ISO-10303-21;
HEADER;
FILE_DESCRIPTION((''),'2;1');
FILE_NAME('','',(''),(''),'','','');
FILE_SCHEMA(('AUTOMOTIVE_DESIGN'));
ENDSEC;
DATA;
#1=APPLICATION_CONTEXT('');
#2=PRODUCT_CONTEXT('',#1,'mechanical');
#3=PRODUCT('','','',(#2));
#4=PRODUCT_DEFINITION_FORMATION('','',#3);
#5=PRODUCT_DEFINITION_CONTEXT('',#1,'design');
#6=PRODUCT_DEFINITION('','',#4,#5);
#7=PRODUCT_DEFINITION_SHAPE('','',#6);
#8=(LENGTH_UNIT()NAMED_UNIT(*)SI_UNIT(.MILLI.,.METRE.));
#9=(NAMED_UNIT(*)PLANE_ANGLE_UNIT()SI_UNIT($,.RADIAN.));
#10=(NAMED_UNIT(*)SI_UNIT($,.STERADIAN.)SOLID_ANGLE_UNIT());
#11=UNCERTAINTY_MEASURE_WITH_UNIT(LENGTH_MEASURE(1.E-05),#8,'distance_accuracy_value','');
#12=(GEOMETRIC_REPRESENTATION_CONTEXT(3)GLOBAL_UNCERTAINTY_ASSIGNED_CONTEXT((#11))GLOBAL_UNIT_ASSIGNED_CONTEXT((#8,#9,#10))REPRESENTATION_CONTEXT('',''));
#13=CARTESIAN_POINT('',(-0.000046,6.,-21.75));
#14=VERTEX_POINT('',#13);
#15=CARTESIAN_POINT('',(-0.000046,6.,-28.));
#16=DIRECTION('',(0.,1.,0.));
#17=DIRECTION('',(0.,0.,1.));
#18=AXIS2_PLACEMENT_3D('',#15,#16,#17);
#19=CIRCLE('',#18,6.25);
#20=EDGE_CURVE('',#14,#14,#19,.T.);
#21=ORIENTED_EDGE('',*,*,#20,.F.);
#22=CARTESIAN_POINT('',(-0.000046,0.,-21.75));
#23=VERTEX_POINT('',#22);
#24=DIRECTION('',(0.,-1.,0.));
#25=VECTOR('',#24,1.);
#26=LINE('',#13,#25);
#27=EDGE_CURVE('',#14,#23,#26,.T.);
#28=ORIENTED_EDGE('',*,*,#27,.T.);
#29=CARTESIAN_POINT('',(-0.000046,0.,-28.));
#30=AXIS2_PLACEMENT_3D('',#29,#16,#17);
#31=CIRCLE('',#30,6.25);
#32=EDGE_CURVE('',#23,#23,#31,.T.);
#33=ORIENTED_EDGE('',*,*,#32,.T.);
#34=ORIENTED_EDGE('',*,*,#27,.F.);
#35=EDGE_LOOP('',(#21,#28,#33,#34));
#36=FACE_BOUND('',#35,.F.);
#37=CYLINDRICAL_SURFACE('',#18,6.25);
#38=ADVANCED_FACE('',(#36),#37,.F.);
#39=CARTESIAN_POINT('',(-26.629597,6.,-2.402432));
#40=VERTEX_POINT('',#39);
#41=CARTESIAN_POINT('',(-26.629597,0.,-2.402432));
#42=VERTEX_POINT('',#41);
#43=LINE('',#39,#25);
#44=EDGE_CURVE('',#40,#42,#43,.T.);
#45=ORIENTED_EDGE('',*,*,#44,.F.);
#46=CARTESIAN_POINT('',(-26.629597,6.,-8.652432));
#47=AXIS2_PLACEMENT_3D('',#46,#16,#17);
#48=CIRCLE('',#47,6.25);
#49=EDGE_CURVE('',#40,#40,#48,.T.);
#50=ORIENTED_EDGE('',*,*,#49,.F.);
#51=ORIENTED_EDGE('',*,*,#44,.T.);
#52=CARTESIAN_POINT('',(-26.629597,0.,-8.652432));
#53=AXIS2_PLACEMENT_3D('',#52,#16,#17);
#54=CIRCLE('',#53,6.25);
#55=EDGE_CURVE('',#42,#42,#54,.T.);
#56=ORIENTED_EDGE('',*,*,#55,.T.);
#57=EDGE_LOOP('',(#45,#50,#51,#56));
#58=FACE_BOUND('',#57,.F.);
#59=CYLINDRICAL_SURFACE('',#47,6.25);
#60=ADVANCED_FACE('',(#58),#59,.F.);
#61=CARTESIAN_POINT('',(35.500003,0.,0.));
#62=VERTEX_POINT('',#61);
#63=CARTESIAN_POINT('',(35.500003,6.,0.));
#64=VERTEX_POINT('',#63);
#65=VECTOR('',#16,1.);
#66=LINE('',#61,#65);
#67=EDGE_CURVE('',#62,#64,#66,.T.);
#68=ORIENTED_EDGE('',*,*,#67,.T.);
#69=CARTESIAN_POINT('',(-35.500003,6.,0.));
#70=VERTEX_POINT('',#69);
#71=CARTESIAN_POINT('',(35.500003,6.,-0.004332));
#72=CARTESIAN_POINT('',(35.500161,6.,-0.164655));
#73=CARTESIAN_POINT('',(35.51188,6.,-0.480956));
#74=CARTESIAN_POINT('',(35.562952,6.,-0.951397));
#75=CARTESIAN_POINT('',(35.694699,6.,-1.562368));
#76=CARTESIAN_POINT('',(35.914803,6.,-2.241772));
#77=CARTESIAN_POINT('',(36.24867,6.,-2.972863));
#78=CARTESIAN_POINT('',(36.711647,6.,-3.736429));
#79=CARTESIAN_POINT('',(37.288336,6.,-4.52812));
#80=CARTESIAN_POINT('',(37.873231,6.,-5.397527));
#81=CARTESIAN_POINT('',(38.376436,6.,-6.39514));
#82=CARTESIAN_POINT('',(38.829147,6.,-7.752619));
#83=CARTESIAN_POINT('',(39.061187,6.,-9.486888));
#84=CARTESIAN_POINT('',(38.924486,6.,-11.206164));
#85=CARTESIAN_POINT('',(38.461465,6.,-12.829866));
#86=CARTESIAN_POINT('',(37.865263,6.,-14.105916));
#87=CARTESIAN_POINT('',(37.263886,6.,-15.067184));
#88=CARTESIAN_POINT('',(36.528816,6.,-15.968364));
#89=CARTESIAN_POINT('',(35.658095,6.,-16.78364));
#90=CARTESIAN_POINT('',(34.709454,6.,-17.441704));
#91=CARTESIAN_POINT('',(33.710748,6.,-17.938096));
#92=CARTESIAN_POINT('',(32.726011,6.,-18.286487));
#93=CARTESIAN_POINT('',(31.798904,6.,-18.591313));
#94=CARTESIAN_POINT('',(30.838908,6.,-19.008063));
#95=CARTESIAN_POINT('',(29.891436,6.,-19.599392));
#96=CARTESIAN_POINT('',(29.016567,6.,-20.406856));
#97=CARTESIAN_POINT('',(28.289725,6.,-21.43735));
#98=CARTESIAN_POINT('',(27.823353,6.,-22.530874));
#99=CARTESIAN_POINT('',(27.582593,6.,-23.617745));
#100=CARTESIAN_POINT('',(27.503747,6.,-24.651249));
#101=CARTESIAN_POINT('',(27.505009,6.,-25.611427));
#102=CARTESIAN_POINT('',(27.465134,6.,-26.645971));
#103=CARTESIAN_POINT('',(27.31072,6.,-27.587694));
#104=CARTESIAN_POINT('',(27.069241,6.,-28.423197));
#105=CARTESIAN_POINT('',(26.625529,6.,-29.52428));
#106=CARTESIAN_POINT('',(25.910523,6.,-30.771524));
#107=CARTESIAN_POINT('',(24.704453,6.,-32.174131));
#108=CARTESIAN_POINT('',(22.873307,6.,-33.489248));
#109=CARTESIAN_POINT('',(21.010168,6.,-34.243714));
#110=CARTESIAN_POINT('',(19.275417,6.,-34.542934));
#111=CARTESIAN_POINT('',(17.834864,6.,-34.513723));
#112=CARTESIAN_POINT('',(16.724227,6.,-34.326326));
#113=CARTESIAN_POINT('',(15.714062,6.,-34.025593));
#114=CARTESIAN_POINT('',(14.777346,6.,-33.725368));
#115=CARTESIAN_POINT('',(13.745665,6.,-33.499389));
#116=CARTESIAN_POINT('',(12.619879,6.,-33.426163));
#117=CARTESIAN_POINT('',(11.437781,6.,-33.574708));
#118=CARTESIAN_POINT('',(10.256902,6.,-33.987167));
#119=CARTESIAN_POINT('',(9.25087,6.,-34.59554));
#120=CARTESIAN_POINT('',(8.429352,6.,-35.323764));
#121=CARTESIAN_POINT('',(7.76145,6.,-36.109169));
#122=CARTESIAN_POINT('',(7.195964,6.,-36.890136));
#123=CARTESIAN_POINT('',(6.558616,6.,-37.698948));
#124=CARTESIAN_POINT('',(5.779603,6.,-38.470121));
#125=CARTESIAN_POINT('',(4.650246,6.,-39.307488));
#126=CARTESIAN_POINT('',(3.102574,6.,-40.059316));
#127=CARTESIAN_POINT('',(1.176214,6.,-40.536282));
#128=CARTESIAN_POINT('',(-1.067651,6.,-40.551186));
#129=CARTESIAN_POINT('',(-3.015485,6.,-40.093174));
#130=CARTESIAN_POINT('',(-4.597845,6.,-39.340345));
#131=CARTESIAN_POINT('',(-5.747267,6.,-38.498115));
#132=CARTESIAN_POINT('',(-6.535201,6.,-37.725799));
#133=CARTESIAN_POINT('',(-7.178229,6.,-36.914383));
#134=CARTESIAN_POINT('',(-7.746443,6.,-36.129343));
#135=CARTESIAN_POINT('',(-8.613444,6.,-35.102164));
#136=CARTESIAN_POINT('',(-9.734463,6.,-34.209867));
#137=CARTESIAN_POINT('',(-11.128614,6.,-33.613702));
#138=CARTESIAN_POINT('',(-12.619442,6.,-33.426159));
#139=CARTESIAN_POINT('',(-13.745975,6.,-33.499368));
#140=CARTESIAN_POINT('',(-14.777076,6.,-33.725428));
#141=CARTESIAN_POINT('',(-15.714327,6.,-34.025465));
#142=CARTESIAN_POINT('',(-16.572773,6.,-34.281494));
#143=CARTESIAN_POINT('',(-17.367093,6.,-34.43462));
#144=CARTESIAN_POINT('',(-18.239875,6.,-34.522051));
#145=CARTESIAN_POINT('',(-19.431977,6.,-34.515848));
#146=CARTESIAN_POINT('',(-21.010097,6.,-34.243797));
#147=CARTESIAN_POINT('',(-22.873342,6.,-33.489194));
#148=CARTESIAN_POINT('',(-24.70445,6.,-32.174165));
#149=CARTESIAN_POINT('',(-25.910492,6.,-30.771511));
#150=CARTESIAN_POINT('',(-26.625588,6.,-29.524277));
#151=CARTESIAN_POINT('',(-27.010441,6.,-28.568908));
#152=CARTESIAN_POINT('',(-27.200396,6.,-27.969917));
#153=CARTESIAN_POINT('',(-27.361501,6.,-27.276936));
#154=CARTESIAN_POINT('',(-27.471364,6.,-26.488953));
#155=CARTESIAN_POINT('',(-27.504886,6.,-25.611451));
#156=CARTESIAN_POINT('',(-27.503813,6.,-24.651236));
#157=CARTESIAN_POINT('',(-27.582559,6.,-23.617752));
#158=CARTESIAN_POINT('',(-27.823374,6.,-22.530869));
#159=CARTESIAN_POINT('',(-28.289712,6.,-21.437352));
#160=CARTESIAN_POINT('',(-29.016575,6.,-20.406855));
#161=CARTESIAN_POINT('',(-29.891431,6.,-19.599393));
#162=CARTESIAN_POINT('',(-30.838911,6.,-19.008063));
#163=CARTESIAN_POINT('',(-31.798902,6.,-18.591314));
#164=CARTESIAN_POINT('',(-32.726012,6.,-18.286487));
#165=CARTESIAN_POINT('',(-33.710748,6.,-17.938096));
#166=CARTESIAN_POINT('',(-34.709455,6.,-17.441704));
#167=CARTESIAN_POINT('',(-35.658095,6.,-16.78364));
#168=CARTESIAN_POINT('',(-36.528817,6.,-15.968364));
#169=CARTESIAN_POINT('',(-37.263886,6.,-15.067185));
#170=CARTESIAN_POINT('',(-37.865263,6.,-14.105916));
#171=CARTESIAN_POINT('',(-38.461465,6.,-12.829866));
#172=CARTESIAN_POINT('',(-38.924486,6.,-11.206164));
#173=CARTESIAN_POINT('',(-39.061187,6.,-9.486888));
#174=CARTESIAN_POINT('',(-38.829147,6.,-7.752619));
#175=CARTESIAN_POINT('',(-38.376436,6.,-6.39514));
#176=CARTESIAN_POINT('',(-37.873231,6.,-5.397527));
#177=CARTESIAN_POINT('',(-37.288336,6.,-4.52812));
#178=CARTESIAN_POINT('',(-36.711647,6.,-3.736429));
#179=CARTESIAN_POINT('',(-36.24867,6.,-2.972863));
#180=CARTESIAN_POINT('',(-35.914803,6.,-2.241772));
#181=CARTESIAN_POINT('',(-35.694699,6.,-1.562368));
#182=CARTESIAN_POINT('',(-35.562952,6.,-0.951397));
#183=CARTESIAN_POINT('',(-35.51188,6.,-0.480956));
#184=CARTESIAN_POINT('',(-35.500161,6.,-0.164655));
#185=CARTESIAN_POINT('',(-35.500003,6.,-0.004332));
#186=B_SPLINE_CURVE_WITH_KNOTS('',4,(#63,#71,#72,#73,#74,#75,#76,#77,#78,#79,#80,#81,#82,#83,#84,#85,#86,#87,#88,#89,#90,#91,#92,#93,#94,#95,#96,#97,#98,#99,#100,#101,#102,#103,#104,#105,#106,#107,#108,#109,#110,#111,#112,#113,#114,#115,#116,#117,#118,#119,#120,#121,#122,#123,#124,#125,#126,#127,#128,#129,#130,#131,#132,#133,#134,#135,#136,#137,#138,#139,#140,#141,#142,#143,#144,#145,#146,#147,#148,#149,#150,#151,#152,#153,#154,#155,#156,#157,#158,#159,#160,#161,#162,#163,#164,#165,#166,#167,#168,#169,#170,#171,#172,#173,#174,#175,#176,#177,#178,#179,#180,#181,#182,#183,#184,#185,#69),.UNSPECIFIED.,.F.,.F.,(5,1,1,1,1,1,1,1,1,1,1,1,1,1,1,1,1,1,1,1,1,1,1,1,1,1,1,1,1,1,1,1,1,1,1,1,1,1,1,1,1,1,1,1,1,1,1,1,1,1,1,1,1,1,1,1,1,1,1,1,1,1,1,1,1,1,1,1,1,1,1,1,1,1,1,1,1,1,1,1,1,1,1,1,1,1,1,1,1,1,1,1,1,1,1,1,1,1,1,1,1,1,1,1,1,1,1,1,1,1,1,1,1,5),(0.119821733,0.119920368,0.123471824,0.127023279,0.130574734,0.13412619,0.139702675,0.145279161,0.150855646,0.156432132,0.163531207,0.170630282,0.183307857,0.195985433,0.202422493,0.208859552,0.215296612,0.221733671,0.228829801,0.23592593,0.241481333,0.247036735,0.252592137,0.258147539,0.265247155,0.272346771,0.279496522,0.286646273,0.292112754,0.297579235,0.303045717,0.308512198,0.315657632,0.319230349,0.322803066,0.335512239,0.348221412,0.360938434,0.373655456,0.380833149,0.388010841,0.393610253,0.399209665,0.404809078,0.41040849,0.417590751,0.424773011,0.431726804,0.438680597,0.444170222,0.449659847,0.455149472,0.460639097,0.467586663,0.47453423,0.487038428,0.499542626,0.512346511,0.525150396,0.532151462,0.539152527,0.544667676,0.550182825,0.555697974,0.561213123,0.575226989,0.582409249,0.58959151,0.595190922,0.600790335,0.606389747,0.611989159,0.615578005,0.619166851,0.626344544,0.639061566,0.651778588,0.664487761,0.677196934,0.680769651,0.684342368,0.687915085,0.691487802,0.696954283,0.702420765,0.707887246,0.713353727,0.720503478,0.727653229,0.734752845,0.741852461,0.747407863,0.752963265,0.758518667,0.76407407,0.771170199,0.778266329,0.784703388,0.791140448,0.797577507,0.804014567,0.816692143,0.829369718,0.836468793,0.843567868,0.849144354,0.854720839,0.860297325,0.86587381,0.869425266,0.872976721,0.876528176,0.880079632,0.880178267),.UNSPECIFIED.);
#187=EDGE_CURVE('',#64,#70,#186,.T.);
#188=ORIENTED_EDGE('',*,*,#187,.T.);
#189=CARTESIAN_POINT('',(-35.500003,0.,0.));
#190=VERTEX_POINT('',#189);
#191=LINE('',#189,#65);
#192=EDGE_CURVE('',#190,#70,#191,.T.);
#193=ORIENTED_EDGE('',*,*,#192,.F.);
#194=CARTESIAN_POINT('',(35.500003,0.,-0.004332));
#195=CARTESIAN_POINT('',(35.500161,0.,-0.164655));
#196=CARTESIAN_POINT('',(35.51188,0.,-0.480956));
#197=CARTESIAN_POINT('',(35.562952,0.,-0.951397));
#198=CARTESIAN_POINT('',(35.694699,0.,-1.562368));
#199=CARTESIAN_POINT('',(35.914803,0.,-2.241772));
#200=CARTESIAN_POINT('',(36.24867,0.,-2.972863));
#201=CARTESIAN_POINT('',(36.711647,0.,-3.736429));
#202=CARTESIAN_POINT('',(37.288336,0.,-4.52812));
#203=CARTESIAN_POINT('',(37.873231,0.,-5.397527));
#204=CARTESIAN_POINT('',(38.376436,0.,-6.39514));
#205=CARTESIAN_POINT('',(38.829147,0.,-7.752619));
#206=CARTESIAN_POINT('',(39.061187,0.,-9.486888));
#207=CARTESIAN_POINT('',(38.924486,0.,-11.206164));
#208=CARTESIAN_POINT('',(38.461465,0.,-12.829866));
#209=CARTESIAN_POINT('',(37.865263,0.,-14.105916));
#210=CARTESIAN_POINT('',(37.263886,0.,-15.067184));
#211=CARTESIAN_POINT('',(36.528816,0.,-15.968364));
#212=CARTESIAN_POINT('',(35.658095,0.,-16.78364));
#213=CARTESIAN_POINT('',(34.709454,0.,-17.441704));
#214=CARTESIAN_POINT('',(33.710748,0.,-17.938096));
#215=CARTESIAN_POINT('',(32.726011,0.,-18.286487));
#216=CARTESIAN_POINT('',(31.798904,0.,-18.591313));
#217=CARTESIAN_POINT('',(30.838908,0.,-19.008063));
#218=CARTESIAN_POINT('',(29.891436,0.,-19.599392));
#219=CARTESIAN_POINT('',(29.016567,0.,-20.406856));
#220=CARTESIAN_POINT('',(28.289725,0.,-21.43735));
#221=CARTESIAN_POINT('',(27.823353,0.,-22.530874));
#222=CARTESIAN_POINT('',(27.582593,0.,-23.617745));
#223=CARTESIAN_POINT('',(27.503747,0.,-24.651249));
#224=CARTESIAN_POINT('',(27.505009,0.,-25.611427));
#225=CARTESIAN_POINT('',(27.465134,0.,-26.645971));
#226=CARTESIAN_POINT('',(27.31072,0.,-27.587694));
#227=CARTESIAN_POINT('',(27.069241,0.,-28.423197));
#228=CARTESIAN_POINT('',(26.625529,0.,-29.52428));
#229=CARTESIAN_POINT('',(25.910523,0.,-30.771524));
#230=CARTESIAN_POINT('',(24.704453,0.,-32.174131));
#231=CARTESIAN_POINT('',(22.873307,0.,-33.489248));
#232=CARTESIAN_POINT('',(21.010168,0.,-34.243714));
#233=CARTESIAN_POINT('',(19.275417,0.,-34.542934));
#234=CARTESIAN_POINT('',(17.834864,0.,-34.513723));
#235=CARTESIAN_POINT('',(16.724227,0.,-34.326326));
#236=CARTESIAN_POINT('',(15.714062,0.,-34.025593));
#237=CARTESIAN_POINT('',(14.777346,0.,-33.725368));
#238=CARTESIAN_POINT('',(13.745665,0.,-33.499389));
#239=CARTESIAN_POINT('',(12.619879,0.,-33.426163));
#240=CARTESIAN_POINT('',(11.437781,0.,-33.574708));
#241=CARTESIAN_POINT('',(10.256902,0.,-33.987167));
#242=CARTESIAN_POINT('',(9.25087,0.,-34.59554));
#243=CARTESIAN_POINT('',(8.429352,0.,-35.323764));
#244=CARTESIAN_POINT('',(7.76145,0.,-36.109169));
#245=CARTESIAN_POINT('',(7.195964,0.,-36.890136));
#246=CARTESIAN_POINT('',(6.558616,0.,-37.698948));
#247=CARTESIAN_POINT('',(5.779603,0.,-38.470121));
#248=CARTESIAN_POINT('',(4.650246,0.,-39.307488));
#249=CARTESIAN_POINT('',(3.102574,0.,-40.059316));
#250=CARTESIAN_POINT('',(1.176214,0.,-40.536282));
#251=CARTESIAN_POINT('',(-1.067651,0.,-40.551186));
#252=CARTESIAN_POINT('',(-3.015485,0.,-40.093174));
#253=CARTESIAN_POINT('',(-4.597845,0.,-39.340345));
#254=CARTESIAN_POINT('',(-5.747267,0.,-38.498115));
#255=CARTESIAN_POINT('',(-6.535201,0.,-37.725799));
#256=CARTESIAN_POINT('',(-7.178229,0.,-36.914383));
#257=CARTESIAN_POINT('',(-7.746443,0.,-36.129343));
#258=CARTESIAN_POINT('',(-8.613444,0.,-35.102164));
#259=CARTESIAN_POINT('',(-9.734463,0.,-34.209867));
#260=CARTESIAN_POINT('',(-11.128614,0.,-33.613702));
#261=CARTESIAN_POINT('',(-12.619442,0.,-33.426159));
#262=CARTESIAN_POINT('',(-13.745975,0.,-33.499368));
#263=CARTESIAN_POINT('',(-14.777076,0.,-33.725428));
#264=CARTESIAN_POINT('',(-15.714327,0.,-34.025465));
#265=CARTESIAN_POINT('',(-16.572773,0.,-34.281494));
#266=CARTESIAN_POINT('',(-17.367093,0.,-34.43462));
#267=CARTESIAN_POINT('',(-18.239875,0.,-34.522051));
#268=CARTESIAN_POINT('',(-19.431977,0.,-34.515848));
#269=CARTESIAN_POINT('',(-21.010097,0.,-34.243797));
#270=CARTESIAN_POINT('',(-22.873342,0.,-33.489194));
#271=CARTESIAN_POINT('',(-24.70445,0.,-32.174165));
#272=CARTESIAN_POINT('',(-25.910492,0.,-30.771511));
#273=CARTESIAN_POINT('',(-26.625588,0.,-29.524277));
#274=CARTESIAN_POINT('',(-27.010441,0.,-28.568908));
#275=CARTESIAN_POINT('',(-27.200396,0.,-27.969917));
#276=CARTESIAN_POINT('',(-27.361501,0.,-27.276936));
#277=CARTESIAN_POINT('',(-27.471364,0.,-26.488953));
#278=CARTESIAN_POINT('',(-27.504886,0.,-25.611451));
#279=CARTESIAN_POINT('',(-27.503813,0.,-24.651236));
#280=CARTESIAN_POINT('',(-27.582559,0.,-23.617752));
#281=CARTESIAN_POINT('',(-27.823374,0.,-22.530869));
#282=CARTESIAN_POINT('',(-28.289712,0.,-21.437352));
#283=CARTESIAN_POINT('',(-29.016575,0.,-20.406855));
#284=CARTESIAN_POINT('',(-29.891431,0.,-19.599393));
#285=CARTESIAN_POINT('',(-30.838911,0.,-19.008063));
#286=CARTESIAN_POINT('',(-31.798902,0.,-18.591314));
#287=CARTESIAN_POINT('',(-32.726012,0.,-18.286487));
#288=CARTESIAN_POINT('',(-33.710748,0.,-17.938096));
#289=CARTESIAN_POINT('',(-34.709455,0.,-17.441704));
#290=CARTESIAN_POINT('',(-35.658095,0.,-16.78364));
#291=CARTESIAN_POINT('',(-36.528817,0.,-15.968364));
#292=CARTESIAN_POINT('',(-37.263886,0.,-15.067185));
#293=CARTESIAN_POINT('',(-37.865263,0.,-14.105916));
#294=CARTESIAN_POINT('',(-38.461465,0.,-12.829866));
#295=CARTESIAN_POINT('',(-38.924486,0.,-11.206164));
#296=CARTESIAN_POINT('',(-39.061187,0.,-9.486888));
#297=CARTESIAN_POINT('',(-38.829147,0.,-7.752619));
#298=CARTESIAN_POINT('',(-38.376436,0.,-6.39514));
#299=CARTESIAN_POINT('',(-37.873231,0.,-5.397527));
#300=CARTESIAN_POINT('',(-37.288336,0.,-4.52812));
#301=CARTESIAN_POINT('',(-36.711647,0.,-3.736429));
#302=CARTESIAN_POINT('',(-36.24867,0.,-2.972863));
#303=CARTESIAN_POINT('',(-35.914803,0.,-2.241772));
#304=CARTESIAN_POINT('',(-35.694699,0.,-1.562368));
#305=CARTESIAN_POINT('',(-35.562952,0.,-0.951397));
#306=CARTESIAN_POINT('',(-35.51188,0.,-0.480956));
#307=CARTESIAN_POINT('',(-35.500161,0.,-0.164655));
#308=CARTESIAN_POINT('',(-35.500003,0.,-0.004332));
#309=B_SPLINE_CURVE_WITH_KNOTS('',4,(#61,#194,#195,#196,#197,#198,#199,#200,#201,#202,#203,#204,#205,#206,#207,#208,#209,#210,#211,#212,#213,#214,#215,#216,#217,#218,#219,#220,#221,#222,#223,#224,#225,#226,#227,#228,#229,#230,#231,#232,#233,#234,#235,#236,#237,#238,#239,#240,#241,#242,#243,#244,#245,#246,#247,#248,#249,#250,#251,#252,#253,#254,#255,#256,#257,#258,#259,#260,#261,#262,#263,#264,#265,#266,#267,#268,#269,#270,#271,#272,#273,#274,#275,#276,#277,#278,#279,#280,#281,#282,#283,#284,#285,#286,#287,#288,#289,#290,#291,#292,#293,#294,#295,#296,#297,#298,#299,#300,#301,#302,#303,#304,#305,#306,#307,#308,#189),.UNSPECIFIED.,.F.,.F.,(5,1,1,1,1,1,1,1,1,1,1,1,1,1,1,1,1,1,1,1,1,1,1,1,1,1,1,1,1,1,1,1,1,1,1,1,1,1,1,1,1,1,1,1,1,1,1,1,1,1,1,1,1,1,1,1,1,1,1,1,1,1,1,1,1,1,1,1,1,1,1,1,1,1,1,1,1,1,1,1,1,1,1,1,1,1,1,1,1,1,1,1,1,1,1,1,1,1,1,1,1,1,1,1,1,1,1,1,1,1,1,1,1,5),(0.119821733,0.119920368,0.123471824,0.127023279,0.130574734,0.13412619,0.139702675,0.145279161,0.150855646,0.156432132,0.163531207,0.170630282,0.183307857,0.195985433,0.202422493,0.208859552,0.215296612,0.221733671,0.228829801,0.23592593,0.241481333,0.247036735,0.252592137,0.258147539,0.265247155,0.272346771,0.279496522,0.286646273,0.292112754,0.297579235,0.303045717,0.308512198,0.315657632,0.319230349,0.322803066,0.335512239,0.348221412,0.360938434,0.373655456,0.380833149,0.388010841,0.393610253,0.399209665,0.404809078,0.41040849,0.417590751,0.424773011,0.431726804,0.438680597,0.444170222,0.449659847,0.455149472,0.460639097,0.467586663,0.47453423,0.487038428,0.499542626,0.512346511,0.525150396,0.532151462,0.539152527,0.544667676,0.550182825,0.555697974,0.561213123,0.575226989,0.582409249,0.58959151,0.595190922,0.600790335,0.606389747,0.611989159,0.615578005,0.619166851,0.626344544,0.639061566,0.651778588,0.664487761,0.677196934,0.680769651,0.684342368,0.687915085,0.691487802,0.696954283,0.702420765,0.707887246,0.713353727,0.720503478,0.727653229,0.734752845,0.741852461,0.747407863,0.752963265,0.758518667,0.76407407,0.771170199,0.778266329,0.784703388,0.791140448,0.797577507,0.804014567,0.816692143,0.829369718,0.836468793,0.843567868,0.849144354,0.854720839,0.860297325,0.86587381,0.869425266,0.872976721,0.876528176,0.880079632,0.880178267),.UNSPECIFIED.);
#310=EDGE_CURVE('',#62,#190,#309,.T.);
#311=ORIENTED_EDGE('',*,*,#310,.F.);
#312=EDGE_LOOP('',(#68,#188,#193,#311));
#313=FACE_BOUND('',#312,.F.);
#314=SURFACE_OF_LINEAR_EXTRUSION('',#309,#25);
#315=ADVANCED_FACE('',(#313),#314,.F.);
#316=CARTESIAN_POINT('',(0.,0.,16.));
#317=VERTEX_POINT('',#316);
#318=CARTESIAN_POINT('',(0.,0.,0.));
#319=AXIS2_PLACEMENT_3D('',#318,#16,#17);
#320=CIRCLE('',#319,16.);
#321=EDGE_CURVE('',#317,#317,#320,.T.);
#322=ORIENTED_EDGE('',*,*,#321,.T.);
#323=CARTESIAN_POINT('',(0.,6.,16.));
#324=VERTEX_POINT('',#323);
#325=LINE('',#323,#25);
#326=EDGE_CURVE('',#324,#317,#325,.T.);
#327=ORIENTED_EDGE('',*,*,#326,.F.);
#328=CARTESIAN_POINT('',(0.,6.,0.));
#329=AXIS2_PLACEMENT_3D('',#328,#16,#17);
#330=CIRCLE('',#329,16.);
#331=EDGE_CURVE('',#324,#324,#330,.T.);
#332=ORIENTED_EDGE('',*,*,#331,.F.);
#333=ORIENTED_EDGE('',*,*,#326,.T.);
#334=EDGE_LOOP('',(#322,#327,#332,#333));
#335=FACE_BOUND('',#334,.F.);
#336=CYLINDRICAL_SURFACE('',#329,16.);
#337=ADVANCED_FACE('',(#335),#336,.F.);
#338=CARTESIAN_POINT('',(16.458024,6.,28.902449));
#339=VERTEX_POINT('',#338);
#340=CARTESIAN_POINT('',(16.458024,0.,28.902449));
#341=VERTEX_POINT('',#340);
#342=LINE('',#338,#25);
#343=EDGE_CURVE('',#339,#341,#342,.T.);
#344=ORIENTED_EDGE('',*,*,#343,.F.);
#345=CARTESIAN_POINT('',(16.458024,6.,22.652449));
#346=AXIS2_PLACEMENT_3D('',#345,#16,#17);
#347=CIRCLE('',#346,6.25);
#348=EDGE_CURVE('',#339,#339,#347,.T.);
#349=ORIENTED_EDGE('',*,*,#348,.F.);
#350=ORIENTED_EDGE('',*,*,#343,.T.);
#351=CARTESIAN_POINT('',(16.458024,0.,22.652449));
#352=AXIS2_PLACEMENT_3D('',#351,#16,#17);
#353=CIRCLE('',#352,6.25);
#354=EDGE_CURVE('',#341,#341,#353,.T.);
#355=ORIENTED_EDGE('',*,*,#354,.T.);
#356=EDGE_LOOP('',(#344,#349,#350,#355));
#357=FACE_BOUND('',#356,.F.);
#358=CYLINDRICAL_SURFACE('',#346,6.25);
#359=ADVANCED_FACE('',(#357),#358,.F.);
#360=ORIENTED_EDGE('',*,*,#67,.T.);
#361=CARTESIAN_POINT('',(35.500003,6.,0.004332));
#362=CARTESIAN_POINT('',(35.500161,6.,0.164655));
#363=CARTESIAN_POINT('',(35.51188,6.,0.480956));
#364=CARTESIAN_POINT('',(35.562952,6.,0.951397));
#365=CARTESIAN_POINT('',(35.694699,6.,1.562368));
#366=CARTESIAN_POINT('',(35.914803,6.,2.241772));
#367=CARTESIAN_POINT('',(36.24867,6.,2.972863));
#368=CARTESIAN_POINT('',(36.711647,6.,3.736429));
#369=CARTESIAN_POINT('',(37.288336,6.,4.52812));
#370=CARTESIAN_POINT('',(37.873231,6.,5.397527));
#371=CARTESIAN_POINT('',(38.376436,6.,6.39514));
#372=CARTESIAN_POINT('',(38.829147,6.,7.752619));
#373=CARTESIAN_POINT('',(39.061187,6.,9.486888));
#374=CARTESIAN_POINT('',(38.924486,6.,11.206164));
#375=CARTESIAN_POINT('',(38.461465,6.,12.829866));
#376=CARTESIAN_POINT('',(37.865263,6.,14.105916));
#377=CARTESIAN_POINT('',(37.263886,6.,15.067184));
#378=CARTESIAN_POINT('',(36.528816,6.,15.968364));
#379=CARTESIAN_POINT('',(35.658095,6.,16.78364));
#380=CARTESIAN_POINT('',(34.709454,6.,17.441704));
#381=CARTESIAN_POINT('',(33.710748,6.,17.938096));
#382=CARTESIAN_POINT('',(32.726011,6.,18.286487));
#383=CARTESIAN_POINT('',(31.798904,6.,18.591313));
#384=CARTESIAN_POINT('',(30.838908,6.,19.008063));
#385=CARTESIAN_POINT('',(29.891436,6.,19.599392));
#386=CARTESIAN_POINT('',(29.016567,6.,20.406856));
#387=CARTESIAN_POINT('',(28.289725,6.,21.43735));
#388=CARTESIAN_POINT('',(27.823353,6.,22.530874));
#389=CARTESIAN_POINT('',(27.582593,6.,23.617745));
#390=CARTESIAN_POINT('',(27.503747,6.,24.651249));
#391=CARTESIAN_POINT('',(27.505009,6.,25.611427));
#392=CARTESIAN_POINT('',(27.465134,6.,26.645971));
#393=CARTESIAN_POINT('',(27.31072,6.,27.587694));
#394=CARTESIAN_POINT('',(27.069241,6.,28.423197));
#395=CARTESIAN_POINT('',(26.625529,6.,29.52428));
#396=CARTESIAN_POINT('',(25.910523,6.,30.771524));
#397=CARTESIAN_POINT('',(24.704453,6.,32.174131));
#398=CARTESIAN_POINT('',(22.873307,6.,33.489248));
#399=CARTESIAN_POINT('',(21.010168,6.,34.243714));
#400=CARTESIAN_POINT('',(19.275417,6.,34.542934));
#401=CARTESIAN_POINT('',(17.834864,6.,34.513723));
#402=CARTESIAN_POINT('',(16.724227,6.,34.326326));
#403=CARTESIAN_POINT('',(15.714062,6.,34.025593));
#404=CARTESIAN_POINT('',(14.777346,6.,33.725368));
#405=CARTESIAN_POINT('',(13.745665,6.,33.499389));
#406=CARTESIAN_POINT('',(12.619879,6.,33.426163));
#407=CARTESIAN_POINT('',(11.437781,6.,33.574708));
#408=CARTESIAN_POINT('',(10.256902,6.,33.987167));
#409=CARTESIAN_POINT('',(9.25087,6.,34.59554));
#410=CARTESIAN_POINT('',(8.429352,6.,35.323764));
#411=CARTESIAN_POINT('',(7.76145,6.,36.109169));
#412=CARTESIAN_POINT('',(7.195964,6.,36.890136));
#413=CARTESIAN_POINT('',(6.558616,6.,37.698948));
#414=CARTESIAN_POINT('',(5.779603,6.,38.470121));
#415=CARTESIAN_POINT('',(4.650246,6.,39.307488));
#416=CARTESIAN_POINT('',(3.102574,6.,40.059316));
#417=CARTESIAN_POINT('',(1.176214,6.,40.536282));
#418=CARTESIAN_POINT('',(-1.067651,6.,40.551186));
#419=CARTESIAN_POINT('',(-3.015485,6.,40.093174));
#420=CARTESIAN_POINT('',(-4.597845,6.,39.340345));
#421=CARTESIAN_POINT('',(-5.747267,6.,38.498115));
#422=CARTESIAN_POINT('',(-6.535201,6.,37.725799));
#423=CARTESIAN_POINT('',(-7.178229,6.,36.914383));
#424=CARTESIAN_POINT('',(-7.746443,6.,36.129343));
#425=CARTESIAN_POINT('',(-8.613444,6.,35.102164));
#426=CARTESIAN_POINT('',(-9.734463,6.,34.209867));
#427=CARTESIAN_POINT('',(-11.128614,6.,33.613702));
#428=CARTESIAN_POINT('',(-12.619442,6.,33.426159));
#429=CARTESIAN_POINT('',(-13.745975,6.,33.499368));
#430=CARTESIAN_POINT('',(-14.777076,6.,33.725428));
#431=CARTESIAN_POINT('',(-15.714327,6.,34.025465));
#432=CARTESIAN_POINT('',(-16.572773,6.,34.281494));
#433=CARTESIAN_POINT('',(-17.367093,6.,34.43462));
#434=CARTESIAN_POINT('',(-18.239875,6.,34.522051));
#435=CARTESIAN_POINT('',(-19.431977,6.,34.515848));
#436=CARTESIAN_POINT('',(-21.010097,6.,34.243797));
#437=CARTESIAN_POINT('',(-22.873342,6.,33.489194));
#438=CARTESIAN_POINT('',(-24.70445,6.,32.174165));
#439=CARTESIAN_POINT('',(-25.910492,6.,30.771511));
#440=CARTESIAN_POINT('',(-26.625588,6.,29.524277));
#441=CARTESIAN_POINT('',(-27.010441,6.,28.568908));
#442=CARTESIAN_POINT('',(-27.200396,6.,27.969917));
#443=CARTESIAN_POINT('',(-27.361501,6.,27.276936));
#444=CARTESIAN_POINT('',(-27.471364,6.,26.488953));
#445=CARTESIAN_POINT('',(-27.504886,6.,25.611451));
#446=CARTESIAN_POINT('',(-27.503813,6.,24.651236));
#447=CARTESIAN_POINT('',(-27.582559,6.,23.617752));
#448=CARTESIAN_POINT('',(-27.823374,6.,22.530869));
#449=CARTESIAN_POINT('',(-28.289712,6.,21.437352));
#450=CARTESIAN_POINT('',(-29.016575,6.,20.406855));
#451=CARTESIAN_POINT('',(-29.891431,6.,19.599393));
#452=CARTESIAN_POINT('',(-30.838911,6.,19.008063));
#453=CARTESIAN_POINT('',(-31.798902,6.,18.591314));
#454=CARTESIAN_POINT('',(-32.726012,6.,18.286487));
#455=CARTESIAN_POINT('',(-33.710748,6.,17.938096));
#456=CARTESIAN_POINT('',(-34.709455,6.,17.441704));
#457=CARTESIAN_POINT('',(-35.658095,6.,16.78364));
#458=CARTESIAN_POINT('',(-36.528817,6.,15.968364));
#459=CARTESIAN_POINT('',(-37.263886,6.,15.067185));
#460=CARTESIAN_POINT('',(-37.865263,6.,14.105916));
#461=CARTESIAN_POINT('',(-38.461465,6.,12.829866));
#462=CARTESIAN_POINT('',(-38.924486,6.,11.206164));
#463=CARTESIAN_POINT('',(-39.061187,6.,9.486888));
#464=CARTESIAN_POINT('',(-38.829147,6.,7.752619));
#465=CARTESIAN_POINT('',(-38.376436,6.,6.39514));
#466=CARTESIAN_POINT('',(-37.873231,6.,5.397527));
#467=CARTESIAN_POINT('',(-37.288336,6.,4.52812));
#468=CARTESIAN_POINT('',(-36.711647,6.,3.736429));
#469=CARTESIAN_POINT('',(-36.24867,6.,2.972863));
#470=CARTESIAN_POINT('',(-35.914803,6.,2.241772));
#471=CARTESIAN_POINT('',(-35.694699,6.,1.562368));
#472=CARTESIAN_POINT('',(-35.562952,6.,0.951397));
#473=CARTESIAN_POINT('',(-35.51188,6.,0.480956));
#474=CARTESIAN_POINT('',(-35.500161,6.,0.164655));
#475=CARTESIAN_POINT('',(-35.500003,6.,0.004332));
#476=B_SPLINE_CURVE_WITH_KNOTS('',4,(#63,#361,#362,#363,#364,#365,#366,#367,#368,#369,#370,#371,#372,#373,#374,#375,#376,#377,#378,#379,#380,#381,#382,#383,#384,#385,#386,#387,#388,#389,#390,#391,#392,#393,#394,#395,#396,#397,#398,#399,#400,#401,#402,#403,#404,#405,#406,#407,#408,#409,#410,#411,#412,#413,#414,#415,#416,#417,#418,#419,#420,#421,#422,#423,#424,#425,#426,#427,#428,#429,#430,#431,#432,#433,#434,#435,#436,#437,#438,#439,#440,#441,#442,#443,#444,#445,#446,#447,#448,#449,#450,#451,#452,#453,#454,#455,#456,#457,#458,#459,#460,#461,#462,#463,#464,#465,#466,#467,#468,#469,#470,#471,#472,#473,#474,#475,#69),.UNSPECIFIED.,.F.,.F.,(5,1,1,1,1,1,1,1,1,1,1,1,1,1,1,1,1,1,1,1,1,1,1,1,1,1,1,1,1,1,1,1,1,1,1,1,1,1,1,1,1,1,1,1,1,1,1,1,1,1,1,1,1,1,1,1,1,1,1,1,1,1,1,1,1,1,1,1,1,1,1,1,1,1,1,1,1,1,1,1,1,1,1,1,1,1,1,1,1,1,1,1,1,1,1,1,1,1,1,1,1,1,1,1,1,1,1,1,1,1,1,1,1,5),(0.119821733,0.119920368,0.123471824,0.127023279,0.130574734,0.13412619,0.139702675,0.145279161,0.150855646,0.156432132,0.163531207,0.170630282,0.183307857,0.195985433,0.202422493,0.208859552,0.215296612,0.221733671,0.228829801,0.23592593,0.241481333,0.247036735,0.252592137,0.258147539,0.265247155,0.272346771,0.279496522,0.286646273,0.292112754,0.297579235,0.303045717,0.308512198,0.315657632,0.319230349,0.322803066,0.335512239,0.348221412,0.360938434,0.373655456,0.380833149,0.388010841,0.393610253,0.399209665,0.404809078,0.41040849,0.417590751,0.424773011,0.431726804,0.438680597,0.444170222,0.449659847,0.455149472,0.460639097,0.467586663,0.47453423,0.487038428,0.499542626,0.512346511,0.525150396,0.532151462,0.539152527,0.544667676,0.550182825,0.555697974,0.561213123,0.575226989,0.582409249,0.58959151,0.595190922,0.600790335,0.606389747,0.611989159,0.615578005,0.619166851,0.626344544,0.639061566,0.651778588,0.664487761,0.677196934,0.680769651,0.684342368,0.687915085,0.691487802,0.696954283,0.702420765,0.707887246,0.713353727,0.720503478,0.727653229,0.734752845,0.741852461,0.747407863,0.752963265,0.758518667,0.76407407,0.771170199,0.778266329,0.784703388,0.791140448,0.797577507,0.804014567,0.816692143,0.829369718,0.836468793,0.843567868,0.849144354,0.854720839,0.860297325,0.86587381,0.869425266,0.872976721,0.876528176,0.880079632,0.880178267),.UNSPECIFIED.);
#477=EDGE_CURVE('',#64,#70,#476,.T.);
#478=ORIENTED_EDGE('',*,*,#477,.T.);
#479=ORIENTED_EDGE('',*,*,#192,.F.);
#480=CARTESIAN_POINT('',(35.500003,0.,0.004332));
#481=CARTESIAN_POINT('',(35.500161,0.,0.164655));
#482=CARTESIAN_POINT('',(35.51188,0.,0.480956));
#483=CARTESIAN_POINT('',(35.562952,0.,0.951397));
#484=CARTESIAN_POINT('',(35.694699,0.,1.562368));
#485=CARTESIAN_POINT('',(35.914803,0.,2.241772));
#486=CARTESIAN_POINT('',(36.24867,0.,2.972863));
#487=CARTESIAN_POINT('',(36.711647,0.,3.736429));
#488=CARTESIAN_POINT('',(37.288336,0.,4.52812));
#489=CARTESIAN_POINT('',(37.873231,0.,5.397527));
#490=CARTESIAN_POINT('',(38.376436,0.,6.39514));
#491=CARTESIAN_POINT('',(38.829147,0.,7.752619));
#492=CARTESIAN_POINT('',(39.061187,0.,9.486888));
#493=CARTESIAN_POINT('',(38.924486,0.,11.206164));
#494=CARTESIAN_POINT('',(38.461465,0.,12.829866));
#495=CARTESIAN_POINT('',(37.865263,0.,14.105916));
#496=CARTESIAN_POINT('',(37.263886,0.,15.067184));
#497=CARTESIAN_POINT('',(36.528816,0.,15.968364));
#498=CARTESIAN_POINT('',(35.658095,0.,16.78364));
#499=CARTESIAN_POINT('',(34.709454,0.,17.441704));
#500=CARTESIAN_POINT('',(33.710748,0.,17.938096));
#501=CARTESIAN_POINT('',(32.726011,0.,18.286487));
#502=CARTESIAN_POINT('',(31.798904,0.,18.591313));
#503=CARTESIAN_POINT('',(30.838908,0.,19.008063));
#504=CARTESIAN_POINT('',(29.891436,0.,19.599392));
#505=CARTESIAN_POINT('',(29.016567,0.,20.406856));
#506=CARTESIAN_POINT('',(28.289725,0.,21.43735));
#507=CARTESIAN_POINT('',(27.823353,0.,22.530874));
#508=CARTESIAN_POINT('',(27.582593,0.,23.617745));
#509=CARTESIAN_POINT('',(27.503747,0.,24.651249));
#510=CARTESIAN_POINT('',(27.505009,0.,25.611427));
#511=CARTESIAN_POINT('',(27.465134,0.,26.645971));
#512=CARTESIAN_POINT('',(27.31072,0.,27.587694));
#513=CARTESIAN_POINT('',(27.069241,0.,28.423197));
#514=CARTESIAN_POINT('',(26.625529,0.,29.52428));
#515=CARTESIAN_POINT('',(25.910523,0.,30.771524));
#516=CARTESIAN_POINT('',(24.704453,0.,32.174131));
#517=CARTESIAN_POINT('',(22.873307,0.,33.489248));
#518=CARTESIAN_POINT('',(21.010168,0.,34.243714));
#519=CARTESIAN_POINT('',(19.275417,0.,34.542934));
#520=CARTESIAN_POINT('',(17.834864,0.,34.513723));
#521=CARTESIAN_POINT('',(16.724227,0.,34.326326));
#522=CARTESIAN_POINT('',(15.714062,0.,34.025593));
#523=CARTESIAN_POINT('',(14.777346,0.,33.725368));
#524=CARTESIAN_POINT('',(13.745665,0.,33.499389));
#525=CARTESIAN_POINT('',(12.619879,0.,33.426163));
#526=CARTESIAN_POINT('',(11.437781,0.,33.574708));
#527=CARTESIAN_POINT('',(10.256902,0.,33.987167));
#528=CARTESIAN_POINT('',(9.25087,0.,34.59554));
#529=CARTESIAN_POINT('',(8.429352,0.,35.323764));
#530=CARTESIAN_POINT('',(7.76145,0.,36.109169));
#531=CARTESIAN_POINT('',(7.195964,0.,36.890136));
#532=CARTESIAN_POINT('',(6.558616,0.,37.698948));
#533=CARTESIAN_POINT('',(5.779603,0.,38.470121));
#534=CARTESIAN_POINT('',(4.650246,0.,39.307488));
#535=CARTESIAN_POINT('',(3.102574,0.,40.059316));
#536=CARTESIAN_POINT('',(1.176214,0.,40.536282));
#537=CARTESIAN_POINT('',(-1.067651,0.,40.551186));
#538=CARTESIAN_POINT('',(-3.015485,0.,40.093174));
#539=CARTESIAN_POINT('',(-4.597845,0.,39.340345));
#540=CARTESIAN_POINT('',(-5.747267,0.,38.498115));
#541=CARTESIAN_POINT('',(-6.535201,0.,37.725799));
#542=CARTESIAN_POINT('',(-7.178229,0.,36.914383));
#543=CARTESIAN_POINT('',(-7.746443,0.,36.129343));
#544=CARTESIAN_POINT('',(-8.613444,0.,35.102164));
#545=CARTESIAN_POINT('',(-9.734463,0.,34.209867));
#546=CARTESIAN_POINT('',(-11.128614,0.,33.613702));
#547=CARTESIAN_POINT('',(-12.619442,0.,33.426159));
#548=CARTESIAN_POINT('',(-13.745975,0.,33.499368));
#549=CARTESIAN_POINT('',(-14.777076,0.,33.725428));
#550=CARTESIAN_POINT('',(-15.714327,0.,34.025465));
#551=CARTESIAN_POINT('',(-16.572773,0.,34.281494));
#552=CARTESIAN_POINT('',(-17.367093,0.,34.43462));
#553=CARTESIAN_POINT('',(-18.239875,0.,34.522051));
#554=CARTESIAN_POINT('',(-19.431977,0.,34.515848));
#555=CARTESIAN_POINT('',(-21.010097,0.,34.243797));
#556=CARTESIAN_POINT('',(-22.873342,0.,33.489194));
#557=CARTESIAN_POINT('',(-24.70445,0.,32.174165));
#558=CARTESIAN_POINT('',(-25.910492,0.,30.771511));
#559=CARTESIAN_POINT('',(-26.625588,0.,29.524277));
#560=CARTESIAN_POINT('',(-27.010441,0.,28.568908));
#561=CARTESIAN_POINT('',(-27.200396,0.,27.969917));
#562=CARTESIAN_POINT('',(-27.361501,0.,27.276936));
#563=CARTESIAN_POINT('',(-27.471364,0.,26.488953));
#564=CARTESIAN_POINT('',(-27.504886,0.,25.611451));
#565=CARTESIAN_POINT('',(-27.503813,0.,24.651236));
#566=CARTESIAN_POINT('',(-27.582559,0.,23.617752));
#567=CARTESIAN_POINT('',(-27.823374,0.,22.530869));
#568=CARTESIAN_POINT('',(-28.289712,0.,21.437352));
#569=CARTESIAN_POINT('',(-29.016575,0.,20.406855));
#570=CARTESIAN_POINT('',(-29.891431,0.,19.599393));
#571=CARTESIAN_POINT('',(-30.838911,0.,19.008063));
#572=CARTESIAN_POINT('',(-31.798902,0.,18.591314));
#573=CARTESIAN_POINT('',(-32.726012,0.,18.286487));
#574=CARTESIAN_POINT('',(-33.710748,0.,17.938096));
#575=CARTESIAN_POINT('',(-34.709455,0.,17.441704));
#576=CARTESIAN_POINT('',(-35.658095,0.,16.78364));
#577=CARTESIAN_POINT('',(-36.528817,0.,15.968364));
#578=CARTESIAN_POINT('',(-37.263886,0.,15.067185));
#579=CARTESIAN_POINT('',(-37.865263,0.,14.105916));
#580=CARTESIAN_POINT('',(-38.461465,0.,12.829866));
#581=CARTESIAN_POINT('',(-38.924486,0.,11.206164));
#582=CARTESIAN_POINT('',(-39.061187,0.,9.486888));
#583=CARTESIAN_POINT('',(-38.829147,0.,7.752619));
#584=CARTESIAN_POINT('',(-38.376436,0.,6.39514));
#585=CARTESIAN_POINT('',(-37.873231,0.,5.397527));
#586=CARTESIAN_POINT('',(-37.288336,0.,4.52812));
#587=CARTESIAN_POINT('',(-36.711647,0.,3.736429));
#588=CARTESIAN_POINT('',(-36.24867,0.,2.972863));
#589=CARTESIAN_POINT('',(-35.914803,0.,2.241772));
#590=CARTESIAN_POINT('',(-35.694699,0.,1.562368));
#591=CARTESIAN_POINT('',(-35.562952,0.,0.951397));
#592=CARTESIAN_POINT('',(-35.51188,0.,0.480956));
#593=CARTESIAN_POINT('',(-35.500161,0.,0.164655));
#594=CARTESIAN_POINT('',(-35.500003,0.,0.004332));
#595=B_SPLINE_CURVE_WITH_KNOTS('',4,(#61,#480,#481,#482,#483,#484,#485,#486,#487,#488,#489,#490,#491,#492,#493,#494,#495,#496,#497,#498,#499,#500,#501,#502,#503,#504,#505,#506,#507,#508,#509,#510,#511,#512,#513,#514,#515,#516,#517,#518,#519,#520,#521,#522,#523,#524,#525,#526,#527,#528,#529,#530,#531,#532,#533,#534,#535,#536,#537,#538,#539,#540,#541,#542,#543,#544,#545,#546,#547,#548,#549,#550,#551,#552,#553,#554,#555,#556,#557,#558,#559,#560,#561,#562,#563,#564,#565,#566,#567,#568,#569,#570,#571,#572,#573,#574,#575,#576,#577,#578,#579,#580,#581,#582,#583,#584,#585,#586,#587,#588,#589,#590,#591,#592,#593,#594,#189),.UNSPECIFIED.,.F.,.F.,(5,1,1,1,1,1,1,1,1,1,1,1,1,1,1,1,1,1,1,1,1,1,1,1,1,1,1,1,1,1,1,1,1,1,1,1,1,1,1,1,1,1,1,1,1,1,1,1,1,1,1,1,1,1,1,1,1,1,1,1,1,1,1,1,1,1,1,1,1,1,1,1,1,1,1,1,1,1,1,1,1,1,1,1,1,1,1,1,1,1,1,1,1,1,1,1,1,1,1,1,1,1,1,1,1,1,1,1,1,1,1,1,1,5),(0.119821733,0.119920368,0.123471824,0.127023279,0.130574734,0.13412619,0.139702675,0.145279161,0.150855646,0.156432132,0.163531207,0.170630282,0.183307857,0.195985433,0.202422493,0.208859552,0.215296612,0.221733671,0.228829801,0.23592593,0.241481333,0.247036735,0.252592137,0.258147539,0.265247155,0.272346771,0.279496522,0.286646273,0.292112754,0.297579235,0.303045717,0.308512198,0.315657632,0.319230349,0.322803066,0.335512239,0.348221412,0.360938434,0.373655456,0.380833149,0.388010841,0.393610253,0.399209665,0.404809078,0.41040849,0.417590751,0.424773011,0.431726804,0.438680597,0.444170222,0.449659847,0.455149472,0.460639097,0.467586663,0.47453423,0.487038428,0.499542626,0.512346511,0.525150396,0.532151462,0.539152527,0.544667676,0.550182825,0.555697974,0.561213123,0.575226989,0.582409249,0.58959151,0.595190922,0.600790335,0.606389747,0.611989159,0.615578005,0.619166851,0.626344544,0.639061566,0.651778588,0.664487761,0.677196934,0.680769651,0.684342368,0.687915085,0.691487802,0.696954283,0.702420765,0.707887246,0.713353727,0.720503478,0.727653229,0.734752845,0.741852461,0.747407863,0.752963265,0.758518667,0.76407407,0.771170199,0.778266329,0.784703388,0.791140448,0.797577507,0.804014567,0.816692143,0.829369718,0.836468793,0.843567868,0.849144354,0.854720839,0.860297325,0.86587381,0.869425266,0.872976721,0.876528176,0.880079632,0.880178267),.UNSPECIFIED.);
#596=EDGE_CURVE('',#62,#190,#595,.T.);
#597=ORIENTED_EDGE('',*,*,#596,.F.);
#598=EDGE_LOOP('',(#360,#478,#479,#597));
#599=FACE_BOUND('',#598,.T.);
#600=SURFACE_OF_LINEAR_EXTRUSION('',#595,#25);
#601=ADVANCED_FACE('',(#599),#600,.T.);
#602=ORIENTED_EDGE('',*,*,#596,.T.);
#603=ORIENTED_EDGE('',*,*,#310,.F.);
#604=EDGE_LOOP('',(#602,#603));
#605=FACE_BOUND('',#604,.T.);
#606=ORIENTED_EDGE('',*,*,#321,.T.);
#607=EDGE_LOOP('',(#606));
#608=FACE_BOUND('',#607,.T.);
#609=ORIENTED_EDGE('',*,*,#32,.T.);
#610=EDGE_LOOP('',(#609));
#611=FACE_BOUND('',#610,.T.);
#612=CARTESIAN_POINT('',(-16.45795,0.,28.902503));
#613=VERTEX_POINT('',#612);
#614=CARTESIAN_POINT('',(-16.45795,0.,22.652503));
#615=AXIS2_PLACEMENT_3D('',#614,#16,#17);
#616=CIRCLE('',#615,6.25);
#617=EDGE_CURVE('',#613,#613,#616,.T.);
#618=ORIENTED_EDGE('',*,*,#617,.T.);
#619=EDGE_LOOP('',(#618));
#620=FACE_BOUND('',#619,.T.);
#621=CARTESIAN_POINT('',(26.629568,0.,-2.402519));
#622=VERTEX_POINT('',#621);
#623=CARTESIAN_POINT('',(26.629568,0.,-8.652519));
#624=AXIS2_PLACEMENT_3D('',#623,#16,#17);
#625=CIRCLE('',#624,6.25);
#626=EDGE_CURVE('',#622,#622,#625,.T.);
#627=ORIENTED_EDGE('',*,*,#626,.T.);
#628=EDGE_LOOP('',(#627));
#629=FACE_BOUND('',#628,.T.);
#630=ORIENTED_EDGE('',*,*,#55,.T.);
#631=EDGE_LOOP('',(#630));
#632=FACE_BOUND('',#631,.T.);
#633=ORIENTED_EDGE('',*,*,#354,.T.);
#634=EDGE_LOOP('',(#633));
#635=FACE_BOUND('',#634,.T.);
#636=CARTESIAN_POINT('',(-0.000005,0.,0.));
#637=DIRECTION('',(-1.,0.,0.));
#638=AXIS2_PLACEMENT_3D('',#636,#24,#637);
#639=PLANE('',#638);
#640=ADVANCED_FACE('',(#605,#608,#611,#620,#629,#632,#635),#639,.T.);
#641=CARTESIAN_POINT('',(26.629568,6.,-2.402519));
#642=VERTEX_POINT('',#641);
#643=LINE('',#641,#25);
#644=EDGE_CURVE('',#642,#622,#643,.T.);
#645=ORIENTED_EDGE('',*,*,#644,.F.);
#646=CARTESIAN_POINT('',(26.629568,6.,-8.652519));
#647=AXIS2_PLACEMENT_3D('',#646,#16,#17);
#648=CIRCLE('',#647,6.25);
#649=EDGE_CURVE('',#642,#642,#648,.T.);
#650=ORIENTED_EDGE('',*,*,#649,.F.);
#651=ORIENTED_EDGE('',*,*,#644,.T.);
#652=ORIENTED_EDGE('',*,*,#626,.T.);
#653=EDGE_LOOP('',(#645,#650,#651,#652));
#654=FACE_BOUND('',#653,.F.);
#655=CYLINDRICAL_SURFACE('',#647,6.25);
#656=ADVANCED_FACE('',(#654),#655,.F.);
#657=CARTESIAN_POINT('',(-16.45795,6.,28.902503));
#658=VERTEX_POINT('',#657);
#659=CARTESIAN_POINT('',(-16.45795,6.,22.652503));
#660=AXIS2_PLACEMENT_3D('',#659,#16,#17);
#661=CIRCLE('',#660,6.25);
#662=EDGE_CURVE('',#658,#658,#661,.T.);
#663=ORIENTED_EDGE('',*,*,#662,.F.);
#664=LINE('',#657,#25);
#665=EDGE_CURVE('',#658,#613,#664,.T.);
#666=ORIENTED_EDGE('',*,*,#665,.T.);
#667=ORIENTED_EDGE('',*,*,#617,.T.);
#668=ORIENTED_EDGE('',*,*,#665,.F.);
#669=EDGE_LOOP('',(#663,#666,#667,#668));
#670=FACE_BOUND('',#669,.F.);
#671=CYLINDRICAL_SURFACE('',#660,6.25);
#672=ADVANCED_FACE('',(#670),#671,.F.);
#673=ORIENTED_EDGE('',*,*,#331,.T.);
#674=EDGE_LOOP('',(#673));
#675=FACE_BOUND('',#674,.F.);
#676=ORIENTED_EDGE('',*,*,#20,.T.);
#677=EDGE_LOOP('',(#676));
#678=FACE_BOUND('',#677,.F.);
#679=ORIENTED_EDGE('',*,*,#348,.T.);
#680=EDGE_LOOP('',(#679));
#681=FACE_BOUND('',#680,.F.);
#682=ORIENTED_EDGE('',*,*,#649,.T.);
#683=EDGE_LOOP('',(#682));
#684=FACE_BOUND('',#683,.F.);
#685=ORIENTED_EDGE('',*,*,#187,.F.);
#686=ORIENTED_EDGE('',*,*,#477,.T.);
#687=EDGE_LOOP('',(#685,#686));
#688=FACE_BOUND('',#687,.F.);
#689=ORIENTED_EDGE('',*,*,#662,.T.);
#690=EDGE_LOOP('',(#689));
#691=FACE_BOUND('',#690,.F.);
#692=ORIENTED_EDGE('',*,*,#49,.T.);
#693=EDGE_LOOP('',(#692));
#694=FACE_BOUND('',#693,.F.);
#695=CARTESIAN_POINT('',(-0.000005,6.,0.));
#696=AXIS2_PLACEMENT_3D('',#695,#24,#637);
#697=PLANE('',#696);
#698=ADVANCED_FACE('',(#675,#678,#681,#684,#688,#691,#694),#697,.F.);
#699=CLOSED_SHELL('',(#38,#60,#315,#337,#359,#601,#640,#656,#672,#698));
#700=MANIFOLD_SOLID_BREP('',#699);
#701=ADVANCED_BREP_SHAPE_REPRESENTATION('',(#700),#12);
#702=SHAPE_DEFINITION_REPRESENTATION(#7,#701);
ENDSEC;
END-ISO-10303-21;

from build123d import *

# Parameters (mm, degrees)
BOSS_EXTRUDE1_DEPTH = 6
SKETCH3_R           = 16
SKETCH3_R_2         = 6.25
CUT_EXTRUDE1_DEPTH  = 6


with BuildPart() as part:
    # Sketch2 → Boss-Extrude1 (new body)
    with BuildSketch(Plane(origin=(0, 0, 0), x_dir=(1, 0, 0), z_dir=(0, 1, 0))):
        with BuildLine():
            add(Edge.make_bspline(
                [(35.500002866, 0), (35.500002908, -0.004332362), (35.500160704, -0.164655465), (35.511879707, -0.480956083), (35.562951828, -0.951397357), (35.694699212, -1.562368334), (35.914803433, -2.241772004), (36.248669896, -2.972863416), (36.711646609, -3.73642892), (37.288335581, -4.528120264), (37.873230618, -5.397526859), (38.376435584, -6.395139964), (38.829147471, -7.752618741), (39.061186651, -9.486887672), (38.924485825, -11.206163975), (38.461464959, -12.829866386), (37.865262684, -14.105916421), (37.263886174, -15.067184484), (36.528816331, -15.968364434), (35.658095269, -16.78364031), (34.709454256, -17.441704457), (33.710748389, -17.938096133), (32.726010532, -18.286487189), (31.798904046, -18.591313455), (30.838907854, -19.008063231), (29.891435788, -19.599392059), (29.016567056, -20.406856316), (28.289724628, -21.437349615), (27.82335305, -22.530873581), (27.582593406, -23.617744703), (27.503747384, -24.651249016), (27.505009019, -25.611426609), (27.465134177, -26.645971238), (27.310719606, -27.587694342), (27.069241338, -28.42319667), (26.625528619, -29.524280019), (25.91052288, -30.771524249), (24.704452738, -32.174130803), (22.873307303, -33.4892481), (21.010167902, -34.243714394), (19.275416565, -34.542934447), (17.83486411, -34.513723012), (16.724226883, -34.32632605), (15.714061835, -34.025592827), (14.777346051, -33.725368286), (13.745665007, -33.499389036), (12.619878747, -33.426163211), (11.437780741, -33.574707648), (10.256902106, -33.987167073), (9.250869505, -34.595539883), (8.42935215, -35.32376419), (7.76144971, -36.109169474), (7.195963595, -36.890135964), (6.558615711, -37.69894771), (5.779602594, -38.470120814), (4.650245939, -39.307487967), (3.102574359, -40.059315642), (1.176214207, -40.536281656), (-1.067650804, -40.551186023), (-3.015485272, -40.093173964), (-4.59784453, -39.340344925), (-5.747267121, -38.498115381), (-6.535201174, -37.725799019), (-7.17822933, -36.914382673), (-7.74644274, -36.129342529), (-8.613444237, -35.102163686), (-9.734463077, -34.209866547), (-11.128614422, -33.613701708), (-12.619442372, -33.4261591), (-13.745975356, -33.499367909), (-14.777075894, -33.725427517), (-15.714326937, -34.025465326), (-16.572772996, -34.281493993), (-17.367092698, -34.434620135), (-18.239875034, -34.522051234), (-19.431977282, -34.515847736), (-21.010097343, -34.243797127), (-22.873341958, -33.48919367), (-24.704449556, -32.174164964), (-25.910491719, -30.771510601), (-26.62558752, -29.524277129), (-27.010440703, -28.568908412), (-27.200396118, -27.969916552), (-27.361500625, -27.276936084), (-27.471364462, -26.488953233), (-27.504885527, -25.611451081), (-27.50381276, -24.651236043), (-27.582559056, -23.617751522), (-27.823373692, -22.530869483), (-28.289711823, -21.437352157), (-29.01657507, -20.406854725), (-29.891430839, -19.599393042), (-30.83891096, -19.008062615), (-31.798901862, -18.591313888), (-32.726011837, -18.28648693), (-33.710747646, -17.93809628), (-34.709454701, -17.441704369), (-35.65809499, -16.783640365), (-36.528816515, -15.968364398), (-37.263886065, -15.067184505), (-37.86526274, -14.10591641), (-38.461464923, -12.829866393), (-38.924485851, -11.20616397), (-39.061186635, -9.486887675), (-38.829147479, -7.75261874), (-38.376435579, -6.395139965), (-37.873230622, -5.397526858), (-37.288335579, -4.528120265), (-36.711646611, -3.73642892), (-36.248669896, -2.972863417), (-35.914803434, -2.241772004), (-35.694699212, -1.562368334), (-35.562951828, -0.951397357), (-35.511879707, -0.480956083), (-35.500160704, -0.164655465), (-35.500002908, -0.004332362), (-35.500002866, 0)],
                knots=[0.119821733, 0.119821733, 0.119821733, 0.119821733, 0.119821733, 0.119920368, 0.123471824, 0.127023279, 0.130574734, 0.13412619, 0.139702675, 0.145279161, 0.150855646, 0.156432132, 0.163531207, 0.170630282, 0.183307857, 0.195985433, 0.202422493, 0.208859552, 0.215296612, 0.221733671, 0.228829801, 0.23592593, 0.241481333, 0.247036735, 0.252592137, 0.258147539, 0.265247155, 0.272346771, 0.279496522, 0.286646273, 0.292112754, 0.297579235, 0.303045717, 0.308512198, 0.315657632, 0.319230349, 0.322803066, 0.335512239, 0.348221412, 0.360938434, 0.373655456, 0.380833149, 0.388010841, 0.393610253, 0.399209665, 0.404809078, 0.41040849, 0.417590751, 0.424773011, 0.431726804, 0.438680597, 0.444170222, 0.449659847, 0.455149472, 0.460639097, 0.467586663, 0.47453423, 0.487038428, 0.499542626, 0.512346511, 0.525150396, 0.532151462, 0.539152527, 0.544667676, 0.550182825, 0.555697974, 0.561213123, 0.575226989, 0.582409249, 0.58959151, 0.595190922, 0.600790335, 0.606389747, 0.611989159, 0.615578005, 0.619166851, 0.626344544, 0.639061566, 0.651778588, 0.664487761, 0.677196934, 0.680769651, 0.684342368, 0.687915085, 0.691487802, 0.696954283, 0.702420765, 0.707887246, 0.713353727, 0.720503478, 0.727653229, 0.734752845, 0.741852461, 0.747407863, 0.752963265, 0.758518667, 0.76407407, 0.771170199, 0.778266329, 0.784703388, 0.791140448, 0.797577507, 0.804014567, 0.816692143, 0.829369718, 0.836468793, 0.843567868, 0.849144354, 0.854720839, 0.860297325, 0.86587381, 0.869425266, 0.872976721, 0.876528176, 0.880079632, 0.880178267, 0.880178267, 0.880178267, 0.880178267, 0.880178267], degree=4))
            add(Edge.make_bspline(
                [(35.500002866, 0), (35.500002908, 0.004332362), (35.500160704, 0.164655465), (35.511879707, 0.480956083), (35.562951828, 0.951397357), (35.694699212, 1.562368334), (35.914803433, 2.241772004), (36.248669896, 2.972863416), (36.711646609, 3.73642892), (37.288335581, 4.528120264), (37.873230618, 5.397526859), (38.376435584, 6.395139964), (38.829147471, 7.752618741), (39.061186651, 9.486887672), (38.924485825, 11.206163975), (38.461464959, 12.829866386), (37.865262684, 14.105916421), (37.263886174, 15.067184484), (36.528816331, 15.968364434), (35.658095269, 16.78364031), (34.709454256, 17.441704457), (33.710748389, 17.938096133), (32.726010532, 18.286487189), (31.798904046, 18.591313455), (30.838907854, 19.008063231), (29.891435788, 19.599392059), (29.016567056, 20.406856316), (28.289724628, 21.437349615), (27.82335305, 22.530873581), (27.582593406, 23.617744703), (27.503747384, 24.651249016), (27.505009019, 25.611426609), (27.465134177, 26.645971238), (27.310719606, 27.587694342), (27.069241338, 28.42319667), (26.625528619, 29.524280019), (25.91052288, 30.771524249), (24.704452738, 32.174130803), (22.873307303, 33.4892481), (21.010167902, 34.243714394), (19.275416565, 34.542934447), (17.83486411, 34.513723012), (16.724226883, 34.32632605), (15.714061835, 34.025592827), (14.777346051, 33.725368286), (13.745665007, 33.499389036), (12.619878747, 33.426163211), (11.437780741, 33.574707648), (10.256902106, 33.987167073), (9.250869505, 34.595539883), (8.42935215, 35.32376419), (7.76144971, 36.109169474), (7.195963595, 36.890135964), (6.558615711, 37.69894771), (5.779602594, 38.470120814), (4.650245939, 39.307487967), (3.102574359, 40.059315642), (1.176214207, 40.536281656), (-1.067650804, 40.551186023), (-3.015485272, 40.093173964), (-4.59784453, 39.340344925), (-5.747267121, 38.498115381), (-6.535201174, 37.725799019), (-7.17822933, 36.914382673), (-7.74644274, 36.129342529), (-8.613444237, 35.102163686), (-9.734463077, 34.209866547), (-11.128614422, 33.613701708), (-12.619442372, 33.4261591), (-13.745975356, 33.499367909), (-14.777075894, 33.725427517), (-15.714326937, 34.025465326), (-16.572772996, 34.281493993), (-17.367092698, 34.434620135), (-18.239875034, 34.522051234), (-19.431977282, 34.515847736), (-21.010097343, 34.243797127), (-22.873341958, 33.48919367), (-24.704449556, 32.174164964), (-25.910491719, 30.771510601), (-26.62558752, 29.524277129), (-27.010440703, 28.568908412), (-27.200396118, 27.969916552), (-27.361500625, 27.276936084), (-27.471364462, 26.488953233), (-27.504885527, 25.611451081), (-27.50381276, 24.651236043), (-27.582559056, 23.617751522), (-27.823373692, 22.530869483), (-28.289711823, 21.437352157), (-29.01657507, 20.406854725), (-29.891430839, 19.599393042), (-30.83891096, 19.008062615), (-31.798901862, 18.591313888), (-32.726011837, 18.28648693), (-33.710747646, 17.93809628), (-34.709454701, 17.441704369), (-35.65809499, 16.783640365), (-36.528816515, 15.968364398), (-37.263886065, 15.067184505), (-37.86526274, 14.10591641), (-38.461464923, 12.829866393), (-38.924485851, 11.20616397), (-39.061186635, 9.486887675), (-38.829147479, 7.75261874), (-38.376435579, 6.395139965), (-37.873230622, 5.397526858), (-37.288335579, 4.528120265), (-36.711646611, 3.73642892), (-36.248669896, 2.972863417), (-35.914803434, 2.241772004), (-35.694699212, 1.562368334), (-35.562951828, 0.951397357), (-35.511879707, 0.480956083), (-35.500160704, 0.164655465), (-35.500002908, 0.004332362), (-35.500002866, 0)],
                knots=[0.119821733, 0.119821733, 0.119821733, 0.119821733, 0.119821733, 0.119920368, 0.123471824, 0.127023279, 0.130574734, 0.13412619, 0.139702675, 0.145279161, 0.150855646, 0.156432132, 0.163531207, 0.170630282, 0.183307857, 0.195985433, 0.202422493, 0.208859552, 0.215296612, 0.221733671, 0.228829801, 0.23592593, 0.241481333, 0.247036735, 0.252592137, 0.258147539, 0.265247155, 0.272346771, 0.279496522, 0.286646273, 0.292112754, 0.297579235, 0.303045717, 0.308512198, 0.315657632, 0.319230349, 0.322803066, 0.335512239, 0.348221412, 0.360938434, 0.373655456, 0.380833149, 0.388010841, 0.393610253, 0.399209665, 0.404809078, 0.41040849, 0.417590751, 0.424773011, 0.431726804, 0.438680597, 0.444170222, 0.449659847, 0.455149472, 0.460639097, 0.467586663, 0.47453423, 0.487038428, 0.499542626, 0.512346511, 0.525150396, 0.532151462, 0.539152527, 0.544667676, 0.550182825, 0.555697974, 0.561213123, 0.575226989, 0.582409249, 0.58959151, 0.595190922, 0.600790335, 0.606389747, 0.611989159, 0.615578005, 0.619166851, 0.626344544, 0.639061566, 0.651778588, 0.664487761, 0.677196934, 0.680769651, 0.684342368, 0.687915085, 0.691487802, 0.696954283, 0.702420765, 0.707887246, 0.713353727, 0.720503478, 0.727653229, 0.734752845, 0.741852461, 0.747407863, 0.752963265, 0.758518667, 0.76407407, 0.771170199, 0.778266329, 0.784703388, 0.791140448, 0.797577507, 0.804014567, 0.816692143, 0.829369718, 0.836468793, 0.843567868, 0.849144354, 0.854720839, 0.860297325, 0.86587381, 0.869425266, 0.872976721, 0.876528176, 0.880079632, 0.880178267, 0.880178267, 0.880178267, 0.880178267, 0.880178267], degree=4))
        make_face()
    extrude(amount=BOSS_EXTRUDE1_DEPTH)

    # Sketch3 → Cut-Extrude1 (cut)
    with BuildSketch(Plane(origin=(0, 6, 0), x_dir=(1, 0, 0), z_dir=(0, 1, 0))):
        with Locations(Location((0, 0, 0), (0, 0, 270))):
            Circle(SKETCH3_R)
        with Locations(Location((26.629568285, 8.652519456, 0), (0, 0, 270))):
            Circle(SKETCH3_R_2)
        with Locations(Location((16.458024164, -22.652448888, 0), (0, 0, 270))):
            Circle(SKETCH3_R_2)
        with Locations(Location((-16.457949965, -22.652502797, 0), (0, 0, 270))):
            Circle(SKETCH3_R_2)
        with Locations(Location((-26.629596627, 8.652432229, 0), (0, 0, 270))):
            Circle(SKETCH3_R_2)
        with Locations(Location((-4.5858e-05, 28, 0), (0, 0, 270))):
            Circle(SKETCH3_R_2)
    extrude(amount=-CUT_EXTRUDE1_DEPTH, mode=Mode.SUBTRACT)


solid = part.part
